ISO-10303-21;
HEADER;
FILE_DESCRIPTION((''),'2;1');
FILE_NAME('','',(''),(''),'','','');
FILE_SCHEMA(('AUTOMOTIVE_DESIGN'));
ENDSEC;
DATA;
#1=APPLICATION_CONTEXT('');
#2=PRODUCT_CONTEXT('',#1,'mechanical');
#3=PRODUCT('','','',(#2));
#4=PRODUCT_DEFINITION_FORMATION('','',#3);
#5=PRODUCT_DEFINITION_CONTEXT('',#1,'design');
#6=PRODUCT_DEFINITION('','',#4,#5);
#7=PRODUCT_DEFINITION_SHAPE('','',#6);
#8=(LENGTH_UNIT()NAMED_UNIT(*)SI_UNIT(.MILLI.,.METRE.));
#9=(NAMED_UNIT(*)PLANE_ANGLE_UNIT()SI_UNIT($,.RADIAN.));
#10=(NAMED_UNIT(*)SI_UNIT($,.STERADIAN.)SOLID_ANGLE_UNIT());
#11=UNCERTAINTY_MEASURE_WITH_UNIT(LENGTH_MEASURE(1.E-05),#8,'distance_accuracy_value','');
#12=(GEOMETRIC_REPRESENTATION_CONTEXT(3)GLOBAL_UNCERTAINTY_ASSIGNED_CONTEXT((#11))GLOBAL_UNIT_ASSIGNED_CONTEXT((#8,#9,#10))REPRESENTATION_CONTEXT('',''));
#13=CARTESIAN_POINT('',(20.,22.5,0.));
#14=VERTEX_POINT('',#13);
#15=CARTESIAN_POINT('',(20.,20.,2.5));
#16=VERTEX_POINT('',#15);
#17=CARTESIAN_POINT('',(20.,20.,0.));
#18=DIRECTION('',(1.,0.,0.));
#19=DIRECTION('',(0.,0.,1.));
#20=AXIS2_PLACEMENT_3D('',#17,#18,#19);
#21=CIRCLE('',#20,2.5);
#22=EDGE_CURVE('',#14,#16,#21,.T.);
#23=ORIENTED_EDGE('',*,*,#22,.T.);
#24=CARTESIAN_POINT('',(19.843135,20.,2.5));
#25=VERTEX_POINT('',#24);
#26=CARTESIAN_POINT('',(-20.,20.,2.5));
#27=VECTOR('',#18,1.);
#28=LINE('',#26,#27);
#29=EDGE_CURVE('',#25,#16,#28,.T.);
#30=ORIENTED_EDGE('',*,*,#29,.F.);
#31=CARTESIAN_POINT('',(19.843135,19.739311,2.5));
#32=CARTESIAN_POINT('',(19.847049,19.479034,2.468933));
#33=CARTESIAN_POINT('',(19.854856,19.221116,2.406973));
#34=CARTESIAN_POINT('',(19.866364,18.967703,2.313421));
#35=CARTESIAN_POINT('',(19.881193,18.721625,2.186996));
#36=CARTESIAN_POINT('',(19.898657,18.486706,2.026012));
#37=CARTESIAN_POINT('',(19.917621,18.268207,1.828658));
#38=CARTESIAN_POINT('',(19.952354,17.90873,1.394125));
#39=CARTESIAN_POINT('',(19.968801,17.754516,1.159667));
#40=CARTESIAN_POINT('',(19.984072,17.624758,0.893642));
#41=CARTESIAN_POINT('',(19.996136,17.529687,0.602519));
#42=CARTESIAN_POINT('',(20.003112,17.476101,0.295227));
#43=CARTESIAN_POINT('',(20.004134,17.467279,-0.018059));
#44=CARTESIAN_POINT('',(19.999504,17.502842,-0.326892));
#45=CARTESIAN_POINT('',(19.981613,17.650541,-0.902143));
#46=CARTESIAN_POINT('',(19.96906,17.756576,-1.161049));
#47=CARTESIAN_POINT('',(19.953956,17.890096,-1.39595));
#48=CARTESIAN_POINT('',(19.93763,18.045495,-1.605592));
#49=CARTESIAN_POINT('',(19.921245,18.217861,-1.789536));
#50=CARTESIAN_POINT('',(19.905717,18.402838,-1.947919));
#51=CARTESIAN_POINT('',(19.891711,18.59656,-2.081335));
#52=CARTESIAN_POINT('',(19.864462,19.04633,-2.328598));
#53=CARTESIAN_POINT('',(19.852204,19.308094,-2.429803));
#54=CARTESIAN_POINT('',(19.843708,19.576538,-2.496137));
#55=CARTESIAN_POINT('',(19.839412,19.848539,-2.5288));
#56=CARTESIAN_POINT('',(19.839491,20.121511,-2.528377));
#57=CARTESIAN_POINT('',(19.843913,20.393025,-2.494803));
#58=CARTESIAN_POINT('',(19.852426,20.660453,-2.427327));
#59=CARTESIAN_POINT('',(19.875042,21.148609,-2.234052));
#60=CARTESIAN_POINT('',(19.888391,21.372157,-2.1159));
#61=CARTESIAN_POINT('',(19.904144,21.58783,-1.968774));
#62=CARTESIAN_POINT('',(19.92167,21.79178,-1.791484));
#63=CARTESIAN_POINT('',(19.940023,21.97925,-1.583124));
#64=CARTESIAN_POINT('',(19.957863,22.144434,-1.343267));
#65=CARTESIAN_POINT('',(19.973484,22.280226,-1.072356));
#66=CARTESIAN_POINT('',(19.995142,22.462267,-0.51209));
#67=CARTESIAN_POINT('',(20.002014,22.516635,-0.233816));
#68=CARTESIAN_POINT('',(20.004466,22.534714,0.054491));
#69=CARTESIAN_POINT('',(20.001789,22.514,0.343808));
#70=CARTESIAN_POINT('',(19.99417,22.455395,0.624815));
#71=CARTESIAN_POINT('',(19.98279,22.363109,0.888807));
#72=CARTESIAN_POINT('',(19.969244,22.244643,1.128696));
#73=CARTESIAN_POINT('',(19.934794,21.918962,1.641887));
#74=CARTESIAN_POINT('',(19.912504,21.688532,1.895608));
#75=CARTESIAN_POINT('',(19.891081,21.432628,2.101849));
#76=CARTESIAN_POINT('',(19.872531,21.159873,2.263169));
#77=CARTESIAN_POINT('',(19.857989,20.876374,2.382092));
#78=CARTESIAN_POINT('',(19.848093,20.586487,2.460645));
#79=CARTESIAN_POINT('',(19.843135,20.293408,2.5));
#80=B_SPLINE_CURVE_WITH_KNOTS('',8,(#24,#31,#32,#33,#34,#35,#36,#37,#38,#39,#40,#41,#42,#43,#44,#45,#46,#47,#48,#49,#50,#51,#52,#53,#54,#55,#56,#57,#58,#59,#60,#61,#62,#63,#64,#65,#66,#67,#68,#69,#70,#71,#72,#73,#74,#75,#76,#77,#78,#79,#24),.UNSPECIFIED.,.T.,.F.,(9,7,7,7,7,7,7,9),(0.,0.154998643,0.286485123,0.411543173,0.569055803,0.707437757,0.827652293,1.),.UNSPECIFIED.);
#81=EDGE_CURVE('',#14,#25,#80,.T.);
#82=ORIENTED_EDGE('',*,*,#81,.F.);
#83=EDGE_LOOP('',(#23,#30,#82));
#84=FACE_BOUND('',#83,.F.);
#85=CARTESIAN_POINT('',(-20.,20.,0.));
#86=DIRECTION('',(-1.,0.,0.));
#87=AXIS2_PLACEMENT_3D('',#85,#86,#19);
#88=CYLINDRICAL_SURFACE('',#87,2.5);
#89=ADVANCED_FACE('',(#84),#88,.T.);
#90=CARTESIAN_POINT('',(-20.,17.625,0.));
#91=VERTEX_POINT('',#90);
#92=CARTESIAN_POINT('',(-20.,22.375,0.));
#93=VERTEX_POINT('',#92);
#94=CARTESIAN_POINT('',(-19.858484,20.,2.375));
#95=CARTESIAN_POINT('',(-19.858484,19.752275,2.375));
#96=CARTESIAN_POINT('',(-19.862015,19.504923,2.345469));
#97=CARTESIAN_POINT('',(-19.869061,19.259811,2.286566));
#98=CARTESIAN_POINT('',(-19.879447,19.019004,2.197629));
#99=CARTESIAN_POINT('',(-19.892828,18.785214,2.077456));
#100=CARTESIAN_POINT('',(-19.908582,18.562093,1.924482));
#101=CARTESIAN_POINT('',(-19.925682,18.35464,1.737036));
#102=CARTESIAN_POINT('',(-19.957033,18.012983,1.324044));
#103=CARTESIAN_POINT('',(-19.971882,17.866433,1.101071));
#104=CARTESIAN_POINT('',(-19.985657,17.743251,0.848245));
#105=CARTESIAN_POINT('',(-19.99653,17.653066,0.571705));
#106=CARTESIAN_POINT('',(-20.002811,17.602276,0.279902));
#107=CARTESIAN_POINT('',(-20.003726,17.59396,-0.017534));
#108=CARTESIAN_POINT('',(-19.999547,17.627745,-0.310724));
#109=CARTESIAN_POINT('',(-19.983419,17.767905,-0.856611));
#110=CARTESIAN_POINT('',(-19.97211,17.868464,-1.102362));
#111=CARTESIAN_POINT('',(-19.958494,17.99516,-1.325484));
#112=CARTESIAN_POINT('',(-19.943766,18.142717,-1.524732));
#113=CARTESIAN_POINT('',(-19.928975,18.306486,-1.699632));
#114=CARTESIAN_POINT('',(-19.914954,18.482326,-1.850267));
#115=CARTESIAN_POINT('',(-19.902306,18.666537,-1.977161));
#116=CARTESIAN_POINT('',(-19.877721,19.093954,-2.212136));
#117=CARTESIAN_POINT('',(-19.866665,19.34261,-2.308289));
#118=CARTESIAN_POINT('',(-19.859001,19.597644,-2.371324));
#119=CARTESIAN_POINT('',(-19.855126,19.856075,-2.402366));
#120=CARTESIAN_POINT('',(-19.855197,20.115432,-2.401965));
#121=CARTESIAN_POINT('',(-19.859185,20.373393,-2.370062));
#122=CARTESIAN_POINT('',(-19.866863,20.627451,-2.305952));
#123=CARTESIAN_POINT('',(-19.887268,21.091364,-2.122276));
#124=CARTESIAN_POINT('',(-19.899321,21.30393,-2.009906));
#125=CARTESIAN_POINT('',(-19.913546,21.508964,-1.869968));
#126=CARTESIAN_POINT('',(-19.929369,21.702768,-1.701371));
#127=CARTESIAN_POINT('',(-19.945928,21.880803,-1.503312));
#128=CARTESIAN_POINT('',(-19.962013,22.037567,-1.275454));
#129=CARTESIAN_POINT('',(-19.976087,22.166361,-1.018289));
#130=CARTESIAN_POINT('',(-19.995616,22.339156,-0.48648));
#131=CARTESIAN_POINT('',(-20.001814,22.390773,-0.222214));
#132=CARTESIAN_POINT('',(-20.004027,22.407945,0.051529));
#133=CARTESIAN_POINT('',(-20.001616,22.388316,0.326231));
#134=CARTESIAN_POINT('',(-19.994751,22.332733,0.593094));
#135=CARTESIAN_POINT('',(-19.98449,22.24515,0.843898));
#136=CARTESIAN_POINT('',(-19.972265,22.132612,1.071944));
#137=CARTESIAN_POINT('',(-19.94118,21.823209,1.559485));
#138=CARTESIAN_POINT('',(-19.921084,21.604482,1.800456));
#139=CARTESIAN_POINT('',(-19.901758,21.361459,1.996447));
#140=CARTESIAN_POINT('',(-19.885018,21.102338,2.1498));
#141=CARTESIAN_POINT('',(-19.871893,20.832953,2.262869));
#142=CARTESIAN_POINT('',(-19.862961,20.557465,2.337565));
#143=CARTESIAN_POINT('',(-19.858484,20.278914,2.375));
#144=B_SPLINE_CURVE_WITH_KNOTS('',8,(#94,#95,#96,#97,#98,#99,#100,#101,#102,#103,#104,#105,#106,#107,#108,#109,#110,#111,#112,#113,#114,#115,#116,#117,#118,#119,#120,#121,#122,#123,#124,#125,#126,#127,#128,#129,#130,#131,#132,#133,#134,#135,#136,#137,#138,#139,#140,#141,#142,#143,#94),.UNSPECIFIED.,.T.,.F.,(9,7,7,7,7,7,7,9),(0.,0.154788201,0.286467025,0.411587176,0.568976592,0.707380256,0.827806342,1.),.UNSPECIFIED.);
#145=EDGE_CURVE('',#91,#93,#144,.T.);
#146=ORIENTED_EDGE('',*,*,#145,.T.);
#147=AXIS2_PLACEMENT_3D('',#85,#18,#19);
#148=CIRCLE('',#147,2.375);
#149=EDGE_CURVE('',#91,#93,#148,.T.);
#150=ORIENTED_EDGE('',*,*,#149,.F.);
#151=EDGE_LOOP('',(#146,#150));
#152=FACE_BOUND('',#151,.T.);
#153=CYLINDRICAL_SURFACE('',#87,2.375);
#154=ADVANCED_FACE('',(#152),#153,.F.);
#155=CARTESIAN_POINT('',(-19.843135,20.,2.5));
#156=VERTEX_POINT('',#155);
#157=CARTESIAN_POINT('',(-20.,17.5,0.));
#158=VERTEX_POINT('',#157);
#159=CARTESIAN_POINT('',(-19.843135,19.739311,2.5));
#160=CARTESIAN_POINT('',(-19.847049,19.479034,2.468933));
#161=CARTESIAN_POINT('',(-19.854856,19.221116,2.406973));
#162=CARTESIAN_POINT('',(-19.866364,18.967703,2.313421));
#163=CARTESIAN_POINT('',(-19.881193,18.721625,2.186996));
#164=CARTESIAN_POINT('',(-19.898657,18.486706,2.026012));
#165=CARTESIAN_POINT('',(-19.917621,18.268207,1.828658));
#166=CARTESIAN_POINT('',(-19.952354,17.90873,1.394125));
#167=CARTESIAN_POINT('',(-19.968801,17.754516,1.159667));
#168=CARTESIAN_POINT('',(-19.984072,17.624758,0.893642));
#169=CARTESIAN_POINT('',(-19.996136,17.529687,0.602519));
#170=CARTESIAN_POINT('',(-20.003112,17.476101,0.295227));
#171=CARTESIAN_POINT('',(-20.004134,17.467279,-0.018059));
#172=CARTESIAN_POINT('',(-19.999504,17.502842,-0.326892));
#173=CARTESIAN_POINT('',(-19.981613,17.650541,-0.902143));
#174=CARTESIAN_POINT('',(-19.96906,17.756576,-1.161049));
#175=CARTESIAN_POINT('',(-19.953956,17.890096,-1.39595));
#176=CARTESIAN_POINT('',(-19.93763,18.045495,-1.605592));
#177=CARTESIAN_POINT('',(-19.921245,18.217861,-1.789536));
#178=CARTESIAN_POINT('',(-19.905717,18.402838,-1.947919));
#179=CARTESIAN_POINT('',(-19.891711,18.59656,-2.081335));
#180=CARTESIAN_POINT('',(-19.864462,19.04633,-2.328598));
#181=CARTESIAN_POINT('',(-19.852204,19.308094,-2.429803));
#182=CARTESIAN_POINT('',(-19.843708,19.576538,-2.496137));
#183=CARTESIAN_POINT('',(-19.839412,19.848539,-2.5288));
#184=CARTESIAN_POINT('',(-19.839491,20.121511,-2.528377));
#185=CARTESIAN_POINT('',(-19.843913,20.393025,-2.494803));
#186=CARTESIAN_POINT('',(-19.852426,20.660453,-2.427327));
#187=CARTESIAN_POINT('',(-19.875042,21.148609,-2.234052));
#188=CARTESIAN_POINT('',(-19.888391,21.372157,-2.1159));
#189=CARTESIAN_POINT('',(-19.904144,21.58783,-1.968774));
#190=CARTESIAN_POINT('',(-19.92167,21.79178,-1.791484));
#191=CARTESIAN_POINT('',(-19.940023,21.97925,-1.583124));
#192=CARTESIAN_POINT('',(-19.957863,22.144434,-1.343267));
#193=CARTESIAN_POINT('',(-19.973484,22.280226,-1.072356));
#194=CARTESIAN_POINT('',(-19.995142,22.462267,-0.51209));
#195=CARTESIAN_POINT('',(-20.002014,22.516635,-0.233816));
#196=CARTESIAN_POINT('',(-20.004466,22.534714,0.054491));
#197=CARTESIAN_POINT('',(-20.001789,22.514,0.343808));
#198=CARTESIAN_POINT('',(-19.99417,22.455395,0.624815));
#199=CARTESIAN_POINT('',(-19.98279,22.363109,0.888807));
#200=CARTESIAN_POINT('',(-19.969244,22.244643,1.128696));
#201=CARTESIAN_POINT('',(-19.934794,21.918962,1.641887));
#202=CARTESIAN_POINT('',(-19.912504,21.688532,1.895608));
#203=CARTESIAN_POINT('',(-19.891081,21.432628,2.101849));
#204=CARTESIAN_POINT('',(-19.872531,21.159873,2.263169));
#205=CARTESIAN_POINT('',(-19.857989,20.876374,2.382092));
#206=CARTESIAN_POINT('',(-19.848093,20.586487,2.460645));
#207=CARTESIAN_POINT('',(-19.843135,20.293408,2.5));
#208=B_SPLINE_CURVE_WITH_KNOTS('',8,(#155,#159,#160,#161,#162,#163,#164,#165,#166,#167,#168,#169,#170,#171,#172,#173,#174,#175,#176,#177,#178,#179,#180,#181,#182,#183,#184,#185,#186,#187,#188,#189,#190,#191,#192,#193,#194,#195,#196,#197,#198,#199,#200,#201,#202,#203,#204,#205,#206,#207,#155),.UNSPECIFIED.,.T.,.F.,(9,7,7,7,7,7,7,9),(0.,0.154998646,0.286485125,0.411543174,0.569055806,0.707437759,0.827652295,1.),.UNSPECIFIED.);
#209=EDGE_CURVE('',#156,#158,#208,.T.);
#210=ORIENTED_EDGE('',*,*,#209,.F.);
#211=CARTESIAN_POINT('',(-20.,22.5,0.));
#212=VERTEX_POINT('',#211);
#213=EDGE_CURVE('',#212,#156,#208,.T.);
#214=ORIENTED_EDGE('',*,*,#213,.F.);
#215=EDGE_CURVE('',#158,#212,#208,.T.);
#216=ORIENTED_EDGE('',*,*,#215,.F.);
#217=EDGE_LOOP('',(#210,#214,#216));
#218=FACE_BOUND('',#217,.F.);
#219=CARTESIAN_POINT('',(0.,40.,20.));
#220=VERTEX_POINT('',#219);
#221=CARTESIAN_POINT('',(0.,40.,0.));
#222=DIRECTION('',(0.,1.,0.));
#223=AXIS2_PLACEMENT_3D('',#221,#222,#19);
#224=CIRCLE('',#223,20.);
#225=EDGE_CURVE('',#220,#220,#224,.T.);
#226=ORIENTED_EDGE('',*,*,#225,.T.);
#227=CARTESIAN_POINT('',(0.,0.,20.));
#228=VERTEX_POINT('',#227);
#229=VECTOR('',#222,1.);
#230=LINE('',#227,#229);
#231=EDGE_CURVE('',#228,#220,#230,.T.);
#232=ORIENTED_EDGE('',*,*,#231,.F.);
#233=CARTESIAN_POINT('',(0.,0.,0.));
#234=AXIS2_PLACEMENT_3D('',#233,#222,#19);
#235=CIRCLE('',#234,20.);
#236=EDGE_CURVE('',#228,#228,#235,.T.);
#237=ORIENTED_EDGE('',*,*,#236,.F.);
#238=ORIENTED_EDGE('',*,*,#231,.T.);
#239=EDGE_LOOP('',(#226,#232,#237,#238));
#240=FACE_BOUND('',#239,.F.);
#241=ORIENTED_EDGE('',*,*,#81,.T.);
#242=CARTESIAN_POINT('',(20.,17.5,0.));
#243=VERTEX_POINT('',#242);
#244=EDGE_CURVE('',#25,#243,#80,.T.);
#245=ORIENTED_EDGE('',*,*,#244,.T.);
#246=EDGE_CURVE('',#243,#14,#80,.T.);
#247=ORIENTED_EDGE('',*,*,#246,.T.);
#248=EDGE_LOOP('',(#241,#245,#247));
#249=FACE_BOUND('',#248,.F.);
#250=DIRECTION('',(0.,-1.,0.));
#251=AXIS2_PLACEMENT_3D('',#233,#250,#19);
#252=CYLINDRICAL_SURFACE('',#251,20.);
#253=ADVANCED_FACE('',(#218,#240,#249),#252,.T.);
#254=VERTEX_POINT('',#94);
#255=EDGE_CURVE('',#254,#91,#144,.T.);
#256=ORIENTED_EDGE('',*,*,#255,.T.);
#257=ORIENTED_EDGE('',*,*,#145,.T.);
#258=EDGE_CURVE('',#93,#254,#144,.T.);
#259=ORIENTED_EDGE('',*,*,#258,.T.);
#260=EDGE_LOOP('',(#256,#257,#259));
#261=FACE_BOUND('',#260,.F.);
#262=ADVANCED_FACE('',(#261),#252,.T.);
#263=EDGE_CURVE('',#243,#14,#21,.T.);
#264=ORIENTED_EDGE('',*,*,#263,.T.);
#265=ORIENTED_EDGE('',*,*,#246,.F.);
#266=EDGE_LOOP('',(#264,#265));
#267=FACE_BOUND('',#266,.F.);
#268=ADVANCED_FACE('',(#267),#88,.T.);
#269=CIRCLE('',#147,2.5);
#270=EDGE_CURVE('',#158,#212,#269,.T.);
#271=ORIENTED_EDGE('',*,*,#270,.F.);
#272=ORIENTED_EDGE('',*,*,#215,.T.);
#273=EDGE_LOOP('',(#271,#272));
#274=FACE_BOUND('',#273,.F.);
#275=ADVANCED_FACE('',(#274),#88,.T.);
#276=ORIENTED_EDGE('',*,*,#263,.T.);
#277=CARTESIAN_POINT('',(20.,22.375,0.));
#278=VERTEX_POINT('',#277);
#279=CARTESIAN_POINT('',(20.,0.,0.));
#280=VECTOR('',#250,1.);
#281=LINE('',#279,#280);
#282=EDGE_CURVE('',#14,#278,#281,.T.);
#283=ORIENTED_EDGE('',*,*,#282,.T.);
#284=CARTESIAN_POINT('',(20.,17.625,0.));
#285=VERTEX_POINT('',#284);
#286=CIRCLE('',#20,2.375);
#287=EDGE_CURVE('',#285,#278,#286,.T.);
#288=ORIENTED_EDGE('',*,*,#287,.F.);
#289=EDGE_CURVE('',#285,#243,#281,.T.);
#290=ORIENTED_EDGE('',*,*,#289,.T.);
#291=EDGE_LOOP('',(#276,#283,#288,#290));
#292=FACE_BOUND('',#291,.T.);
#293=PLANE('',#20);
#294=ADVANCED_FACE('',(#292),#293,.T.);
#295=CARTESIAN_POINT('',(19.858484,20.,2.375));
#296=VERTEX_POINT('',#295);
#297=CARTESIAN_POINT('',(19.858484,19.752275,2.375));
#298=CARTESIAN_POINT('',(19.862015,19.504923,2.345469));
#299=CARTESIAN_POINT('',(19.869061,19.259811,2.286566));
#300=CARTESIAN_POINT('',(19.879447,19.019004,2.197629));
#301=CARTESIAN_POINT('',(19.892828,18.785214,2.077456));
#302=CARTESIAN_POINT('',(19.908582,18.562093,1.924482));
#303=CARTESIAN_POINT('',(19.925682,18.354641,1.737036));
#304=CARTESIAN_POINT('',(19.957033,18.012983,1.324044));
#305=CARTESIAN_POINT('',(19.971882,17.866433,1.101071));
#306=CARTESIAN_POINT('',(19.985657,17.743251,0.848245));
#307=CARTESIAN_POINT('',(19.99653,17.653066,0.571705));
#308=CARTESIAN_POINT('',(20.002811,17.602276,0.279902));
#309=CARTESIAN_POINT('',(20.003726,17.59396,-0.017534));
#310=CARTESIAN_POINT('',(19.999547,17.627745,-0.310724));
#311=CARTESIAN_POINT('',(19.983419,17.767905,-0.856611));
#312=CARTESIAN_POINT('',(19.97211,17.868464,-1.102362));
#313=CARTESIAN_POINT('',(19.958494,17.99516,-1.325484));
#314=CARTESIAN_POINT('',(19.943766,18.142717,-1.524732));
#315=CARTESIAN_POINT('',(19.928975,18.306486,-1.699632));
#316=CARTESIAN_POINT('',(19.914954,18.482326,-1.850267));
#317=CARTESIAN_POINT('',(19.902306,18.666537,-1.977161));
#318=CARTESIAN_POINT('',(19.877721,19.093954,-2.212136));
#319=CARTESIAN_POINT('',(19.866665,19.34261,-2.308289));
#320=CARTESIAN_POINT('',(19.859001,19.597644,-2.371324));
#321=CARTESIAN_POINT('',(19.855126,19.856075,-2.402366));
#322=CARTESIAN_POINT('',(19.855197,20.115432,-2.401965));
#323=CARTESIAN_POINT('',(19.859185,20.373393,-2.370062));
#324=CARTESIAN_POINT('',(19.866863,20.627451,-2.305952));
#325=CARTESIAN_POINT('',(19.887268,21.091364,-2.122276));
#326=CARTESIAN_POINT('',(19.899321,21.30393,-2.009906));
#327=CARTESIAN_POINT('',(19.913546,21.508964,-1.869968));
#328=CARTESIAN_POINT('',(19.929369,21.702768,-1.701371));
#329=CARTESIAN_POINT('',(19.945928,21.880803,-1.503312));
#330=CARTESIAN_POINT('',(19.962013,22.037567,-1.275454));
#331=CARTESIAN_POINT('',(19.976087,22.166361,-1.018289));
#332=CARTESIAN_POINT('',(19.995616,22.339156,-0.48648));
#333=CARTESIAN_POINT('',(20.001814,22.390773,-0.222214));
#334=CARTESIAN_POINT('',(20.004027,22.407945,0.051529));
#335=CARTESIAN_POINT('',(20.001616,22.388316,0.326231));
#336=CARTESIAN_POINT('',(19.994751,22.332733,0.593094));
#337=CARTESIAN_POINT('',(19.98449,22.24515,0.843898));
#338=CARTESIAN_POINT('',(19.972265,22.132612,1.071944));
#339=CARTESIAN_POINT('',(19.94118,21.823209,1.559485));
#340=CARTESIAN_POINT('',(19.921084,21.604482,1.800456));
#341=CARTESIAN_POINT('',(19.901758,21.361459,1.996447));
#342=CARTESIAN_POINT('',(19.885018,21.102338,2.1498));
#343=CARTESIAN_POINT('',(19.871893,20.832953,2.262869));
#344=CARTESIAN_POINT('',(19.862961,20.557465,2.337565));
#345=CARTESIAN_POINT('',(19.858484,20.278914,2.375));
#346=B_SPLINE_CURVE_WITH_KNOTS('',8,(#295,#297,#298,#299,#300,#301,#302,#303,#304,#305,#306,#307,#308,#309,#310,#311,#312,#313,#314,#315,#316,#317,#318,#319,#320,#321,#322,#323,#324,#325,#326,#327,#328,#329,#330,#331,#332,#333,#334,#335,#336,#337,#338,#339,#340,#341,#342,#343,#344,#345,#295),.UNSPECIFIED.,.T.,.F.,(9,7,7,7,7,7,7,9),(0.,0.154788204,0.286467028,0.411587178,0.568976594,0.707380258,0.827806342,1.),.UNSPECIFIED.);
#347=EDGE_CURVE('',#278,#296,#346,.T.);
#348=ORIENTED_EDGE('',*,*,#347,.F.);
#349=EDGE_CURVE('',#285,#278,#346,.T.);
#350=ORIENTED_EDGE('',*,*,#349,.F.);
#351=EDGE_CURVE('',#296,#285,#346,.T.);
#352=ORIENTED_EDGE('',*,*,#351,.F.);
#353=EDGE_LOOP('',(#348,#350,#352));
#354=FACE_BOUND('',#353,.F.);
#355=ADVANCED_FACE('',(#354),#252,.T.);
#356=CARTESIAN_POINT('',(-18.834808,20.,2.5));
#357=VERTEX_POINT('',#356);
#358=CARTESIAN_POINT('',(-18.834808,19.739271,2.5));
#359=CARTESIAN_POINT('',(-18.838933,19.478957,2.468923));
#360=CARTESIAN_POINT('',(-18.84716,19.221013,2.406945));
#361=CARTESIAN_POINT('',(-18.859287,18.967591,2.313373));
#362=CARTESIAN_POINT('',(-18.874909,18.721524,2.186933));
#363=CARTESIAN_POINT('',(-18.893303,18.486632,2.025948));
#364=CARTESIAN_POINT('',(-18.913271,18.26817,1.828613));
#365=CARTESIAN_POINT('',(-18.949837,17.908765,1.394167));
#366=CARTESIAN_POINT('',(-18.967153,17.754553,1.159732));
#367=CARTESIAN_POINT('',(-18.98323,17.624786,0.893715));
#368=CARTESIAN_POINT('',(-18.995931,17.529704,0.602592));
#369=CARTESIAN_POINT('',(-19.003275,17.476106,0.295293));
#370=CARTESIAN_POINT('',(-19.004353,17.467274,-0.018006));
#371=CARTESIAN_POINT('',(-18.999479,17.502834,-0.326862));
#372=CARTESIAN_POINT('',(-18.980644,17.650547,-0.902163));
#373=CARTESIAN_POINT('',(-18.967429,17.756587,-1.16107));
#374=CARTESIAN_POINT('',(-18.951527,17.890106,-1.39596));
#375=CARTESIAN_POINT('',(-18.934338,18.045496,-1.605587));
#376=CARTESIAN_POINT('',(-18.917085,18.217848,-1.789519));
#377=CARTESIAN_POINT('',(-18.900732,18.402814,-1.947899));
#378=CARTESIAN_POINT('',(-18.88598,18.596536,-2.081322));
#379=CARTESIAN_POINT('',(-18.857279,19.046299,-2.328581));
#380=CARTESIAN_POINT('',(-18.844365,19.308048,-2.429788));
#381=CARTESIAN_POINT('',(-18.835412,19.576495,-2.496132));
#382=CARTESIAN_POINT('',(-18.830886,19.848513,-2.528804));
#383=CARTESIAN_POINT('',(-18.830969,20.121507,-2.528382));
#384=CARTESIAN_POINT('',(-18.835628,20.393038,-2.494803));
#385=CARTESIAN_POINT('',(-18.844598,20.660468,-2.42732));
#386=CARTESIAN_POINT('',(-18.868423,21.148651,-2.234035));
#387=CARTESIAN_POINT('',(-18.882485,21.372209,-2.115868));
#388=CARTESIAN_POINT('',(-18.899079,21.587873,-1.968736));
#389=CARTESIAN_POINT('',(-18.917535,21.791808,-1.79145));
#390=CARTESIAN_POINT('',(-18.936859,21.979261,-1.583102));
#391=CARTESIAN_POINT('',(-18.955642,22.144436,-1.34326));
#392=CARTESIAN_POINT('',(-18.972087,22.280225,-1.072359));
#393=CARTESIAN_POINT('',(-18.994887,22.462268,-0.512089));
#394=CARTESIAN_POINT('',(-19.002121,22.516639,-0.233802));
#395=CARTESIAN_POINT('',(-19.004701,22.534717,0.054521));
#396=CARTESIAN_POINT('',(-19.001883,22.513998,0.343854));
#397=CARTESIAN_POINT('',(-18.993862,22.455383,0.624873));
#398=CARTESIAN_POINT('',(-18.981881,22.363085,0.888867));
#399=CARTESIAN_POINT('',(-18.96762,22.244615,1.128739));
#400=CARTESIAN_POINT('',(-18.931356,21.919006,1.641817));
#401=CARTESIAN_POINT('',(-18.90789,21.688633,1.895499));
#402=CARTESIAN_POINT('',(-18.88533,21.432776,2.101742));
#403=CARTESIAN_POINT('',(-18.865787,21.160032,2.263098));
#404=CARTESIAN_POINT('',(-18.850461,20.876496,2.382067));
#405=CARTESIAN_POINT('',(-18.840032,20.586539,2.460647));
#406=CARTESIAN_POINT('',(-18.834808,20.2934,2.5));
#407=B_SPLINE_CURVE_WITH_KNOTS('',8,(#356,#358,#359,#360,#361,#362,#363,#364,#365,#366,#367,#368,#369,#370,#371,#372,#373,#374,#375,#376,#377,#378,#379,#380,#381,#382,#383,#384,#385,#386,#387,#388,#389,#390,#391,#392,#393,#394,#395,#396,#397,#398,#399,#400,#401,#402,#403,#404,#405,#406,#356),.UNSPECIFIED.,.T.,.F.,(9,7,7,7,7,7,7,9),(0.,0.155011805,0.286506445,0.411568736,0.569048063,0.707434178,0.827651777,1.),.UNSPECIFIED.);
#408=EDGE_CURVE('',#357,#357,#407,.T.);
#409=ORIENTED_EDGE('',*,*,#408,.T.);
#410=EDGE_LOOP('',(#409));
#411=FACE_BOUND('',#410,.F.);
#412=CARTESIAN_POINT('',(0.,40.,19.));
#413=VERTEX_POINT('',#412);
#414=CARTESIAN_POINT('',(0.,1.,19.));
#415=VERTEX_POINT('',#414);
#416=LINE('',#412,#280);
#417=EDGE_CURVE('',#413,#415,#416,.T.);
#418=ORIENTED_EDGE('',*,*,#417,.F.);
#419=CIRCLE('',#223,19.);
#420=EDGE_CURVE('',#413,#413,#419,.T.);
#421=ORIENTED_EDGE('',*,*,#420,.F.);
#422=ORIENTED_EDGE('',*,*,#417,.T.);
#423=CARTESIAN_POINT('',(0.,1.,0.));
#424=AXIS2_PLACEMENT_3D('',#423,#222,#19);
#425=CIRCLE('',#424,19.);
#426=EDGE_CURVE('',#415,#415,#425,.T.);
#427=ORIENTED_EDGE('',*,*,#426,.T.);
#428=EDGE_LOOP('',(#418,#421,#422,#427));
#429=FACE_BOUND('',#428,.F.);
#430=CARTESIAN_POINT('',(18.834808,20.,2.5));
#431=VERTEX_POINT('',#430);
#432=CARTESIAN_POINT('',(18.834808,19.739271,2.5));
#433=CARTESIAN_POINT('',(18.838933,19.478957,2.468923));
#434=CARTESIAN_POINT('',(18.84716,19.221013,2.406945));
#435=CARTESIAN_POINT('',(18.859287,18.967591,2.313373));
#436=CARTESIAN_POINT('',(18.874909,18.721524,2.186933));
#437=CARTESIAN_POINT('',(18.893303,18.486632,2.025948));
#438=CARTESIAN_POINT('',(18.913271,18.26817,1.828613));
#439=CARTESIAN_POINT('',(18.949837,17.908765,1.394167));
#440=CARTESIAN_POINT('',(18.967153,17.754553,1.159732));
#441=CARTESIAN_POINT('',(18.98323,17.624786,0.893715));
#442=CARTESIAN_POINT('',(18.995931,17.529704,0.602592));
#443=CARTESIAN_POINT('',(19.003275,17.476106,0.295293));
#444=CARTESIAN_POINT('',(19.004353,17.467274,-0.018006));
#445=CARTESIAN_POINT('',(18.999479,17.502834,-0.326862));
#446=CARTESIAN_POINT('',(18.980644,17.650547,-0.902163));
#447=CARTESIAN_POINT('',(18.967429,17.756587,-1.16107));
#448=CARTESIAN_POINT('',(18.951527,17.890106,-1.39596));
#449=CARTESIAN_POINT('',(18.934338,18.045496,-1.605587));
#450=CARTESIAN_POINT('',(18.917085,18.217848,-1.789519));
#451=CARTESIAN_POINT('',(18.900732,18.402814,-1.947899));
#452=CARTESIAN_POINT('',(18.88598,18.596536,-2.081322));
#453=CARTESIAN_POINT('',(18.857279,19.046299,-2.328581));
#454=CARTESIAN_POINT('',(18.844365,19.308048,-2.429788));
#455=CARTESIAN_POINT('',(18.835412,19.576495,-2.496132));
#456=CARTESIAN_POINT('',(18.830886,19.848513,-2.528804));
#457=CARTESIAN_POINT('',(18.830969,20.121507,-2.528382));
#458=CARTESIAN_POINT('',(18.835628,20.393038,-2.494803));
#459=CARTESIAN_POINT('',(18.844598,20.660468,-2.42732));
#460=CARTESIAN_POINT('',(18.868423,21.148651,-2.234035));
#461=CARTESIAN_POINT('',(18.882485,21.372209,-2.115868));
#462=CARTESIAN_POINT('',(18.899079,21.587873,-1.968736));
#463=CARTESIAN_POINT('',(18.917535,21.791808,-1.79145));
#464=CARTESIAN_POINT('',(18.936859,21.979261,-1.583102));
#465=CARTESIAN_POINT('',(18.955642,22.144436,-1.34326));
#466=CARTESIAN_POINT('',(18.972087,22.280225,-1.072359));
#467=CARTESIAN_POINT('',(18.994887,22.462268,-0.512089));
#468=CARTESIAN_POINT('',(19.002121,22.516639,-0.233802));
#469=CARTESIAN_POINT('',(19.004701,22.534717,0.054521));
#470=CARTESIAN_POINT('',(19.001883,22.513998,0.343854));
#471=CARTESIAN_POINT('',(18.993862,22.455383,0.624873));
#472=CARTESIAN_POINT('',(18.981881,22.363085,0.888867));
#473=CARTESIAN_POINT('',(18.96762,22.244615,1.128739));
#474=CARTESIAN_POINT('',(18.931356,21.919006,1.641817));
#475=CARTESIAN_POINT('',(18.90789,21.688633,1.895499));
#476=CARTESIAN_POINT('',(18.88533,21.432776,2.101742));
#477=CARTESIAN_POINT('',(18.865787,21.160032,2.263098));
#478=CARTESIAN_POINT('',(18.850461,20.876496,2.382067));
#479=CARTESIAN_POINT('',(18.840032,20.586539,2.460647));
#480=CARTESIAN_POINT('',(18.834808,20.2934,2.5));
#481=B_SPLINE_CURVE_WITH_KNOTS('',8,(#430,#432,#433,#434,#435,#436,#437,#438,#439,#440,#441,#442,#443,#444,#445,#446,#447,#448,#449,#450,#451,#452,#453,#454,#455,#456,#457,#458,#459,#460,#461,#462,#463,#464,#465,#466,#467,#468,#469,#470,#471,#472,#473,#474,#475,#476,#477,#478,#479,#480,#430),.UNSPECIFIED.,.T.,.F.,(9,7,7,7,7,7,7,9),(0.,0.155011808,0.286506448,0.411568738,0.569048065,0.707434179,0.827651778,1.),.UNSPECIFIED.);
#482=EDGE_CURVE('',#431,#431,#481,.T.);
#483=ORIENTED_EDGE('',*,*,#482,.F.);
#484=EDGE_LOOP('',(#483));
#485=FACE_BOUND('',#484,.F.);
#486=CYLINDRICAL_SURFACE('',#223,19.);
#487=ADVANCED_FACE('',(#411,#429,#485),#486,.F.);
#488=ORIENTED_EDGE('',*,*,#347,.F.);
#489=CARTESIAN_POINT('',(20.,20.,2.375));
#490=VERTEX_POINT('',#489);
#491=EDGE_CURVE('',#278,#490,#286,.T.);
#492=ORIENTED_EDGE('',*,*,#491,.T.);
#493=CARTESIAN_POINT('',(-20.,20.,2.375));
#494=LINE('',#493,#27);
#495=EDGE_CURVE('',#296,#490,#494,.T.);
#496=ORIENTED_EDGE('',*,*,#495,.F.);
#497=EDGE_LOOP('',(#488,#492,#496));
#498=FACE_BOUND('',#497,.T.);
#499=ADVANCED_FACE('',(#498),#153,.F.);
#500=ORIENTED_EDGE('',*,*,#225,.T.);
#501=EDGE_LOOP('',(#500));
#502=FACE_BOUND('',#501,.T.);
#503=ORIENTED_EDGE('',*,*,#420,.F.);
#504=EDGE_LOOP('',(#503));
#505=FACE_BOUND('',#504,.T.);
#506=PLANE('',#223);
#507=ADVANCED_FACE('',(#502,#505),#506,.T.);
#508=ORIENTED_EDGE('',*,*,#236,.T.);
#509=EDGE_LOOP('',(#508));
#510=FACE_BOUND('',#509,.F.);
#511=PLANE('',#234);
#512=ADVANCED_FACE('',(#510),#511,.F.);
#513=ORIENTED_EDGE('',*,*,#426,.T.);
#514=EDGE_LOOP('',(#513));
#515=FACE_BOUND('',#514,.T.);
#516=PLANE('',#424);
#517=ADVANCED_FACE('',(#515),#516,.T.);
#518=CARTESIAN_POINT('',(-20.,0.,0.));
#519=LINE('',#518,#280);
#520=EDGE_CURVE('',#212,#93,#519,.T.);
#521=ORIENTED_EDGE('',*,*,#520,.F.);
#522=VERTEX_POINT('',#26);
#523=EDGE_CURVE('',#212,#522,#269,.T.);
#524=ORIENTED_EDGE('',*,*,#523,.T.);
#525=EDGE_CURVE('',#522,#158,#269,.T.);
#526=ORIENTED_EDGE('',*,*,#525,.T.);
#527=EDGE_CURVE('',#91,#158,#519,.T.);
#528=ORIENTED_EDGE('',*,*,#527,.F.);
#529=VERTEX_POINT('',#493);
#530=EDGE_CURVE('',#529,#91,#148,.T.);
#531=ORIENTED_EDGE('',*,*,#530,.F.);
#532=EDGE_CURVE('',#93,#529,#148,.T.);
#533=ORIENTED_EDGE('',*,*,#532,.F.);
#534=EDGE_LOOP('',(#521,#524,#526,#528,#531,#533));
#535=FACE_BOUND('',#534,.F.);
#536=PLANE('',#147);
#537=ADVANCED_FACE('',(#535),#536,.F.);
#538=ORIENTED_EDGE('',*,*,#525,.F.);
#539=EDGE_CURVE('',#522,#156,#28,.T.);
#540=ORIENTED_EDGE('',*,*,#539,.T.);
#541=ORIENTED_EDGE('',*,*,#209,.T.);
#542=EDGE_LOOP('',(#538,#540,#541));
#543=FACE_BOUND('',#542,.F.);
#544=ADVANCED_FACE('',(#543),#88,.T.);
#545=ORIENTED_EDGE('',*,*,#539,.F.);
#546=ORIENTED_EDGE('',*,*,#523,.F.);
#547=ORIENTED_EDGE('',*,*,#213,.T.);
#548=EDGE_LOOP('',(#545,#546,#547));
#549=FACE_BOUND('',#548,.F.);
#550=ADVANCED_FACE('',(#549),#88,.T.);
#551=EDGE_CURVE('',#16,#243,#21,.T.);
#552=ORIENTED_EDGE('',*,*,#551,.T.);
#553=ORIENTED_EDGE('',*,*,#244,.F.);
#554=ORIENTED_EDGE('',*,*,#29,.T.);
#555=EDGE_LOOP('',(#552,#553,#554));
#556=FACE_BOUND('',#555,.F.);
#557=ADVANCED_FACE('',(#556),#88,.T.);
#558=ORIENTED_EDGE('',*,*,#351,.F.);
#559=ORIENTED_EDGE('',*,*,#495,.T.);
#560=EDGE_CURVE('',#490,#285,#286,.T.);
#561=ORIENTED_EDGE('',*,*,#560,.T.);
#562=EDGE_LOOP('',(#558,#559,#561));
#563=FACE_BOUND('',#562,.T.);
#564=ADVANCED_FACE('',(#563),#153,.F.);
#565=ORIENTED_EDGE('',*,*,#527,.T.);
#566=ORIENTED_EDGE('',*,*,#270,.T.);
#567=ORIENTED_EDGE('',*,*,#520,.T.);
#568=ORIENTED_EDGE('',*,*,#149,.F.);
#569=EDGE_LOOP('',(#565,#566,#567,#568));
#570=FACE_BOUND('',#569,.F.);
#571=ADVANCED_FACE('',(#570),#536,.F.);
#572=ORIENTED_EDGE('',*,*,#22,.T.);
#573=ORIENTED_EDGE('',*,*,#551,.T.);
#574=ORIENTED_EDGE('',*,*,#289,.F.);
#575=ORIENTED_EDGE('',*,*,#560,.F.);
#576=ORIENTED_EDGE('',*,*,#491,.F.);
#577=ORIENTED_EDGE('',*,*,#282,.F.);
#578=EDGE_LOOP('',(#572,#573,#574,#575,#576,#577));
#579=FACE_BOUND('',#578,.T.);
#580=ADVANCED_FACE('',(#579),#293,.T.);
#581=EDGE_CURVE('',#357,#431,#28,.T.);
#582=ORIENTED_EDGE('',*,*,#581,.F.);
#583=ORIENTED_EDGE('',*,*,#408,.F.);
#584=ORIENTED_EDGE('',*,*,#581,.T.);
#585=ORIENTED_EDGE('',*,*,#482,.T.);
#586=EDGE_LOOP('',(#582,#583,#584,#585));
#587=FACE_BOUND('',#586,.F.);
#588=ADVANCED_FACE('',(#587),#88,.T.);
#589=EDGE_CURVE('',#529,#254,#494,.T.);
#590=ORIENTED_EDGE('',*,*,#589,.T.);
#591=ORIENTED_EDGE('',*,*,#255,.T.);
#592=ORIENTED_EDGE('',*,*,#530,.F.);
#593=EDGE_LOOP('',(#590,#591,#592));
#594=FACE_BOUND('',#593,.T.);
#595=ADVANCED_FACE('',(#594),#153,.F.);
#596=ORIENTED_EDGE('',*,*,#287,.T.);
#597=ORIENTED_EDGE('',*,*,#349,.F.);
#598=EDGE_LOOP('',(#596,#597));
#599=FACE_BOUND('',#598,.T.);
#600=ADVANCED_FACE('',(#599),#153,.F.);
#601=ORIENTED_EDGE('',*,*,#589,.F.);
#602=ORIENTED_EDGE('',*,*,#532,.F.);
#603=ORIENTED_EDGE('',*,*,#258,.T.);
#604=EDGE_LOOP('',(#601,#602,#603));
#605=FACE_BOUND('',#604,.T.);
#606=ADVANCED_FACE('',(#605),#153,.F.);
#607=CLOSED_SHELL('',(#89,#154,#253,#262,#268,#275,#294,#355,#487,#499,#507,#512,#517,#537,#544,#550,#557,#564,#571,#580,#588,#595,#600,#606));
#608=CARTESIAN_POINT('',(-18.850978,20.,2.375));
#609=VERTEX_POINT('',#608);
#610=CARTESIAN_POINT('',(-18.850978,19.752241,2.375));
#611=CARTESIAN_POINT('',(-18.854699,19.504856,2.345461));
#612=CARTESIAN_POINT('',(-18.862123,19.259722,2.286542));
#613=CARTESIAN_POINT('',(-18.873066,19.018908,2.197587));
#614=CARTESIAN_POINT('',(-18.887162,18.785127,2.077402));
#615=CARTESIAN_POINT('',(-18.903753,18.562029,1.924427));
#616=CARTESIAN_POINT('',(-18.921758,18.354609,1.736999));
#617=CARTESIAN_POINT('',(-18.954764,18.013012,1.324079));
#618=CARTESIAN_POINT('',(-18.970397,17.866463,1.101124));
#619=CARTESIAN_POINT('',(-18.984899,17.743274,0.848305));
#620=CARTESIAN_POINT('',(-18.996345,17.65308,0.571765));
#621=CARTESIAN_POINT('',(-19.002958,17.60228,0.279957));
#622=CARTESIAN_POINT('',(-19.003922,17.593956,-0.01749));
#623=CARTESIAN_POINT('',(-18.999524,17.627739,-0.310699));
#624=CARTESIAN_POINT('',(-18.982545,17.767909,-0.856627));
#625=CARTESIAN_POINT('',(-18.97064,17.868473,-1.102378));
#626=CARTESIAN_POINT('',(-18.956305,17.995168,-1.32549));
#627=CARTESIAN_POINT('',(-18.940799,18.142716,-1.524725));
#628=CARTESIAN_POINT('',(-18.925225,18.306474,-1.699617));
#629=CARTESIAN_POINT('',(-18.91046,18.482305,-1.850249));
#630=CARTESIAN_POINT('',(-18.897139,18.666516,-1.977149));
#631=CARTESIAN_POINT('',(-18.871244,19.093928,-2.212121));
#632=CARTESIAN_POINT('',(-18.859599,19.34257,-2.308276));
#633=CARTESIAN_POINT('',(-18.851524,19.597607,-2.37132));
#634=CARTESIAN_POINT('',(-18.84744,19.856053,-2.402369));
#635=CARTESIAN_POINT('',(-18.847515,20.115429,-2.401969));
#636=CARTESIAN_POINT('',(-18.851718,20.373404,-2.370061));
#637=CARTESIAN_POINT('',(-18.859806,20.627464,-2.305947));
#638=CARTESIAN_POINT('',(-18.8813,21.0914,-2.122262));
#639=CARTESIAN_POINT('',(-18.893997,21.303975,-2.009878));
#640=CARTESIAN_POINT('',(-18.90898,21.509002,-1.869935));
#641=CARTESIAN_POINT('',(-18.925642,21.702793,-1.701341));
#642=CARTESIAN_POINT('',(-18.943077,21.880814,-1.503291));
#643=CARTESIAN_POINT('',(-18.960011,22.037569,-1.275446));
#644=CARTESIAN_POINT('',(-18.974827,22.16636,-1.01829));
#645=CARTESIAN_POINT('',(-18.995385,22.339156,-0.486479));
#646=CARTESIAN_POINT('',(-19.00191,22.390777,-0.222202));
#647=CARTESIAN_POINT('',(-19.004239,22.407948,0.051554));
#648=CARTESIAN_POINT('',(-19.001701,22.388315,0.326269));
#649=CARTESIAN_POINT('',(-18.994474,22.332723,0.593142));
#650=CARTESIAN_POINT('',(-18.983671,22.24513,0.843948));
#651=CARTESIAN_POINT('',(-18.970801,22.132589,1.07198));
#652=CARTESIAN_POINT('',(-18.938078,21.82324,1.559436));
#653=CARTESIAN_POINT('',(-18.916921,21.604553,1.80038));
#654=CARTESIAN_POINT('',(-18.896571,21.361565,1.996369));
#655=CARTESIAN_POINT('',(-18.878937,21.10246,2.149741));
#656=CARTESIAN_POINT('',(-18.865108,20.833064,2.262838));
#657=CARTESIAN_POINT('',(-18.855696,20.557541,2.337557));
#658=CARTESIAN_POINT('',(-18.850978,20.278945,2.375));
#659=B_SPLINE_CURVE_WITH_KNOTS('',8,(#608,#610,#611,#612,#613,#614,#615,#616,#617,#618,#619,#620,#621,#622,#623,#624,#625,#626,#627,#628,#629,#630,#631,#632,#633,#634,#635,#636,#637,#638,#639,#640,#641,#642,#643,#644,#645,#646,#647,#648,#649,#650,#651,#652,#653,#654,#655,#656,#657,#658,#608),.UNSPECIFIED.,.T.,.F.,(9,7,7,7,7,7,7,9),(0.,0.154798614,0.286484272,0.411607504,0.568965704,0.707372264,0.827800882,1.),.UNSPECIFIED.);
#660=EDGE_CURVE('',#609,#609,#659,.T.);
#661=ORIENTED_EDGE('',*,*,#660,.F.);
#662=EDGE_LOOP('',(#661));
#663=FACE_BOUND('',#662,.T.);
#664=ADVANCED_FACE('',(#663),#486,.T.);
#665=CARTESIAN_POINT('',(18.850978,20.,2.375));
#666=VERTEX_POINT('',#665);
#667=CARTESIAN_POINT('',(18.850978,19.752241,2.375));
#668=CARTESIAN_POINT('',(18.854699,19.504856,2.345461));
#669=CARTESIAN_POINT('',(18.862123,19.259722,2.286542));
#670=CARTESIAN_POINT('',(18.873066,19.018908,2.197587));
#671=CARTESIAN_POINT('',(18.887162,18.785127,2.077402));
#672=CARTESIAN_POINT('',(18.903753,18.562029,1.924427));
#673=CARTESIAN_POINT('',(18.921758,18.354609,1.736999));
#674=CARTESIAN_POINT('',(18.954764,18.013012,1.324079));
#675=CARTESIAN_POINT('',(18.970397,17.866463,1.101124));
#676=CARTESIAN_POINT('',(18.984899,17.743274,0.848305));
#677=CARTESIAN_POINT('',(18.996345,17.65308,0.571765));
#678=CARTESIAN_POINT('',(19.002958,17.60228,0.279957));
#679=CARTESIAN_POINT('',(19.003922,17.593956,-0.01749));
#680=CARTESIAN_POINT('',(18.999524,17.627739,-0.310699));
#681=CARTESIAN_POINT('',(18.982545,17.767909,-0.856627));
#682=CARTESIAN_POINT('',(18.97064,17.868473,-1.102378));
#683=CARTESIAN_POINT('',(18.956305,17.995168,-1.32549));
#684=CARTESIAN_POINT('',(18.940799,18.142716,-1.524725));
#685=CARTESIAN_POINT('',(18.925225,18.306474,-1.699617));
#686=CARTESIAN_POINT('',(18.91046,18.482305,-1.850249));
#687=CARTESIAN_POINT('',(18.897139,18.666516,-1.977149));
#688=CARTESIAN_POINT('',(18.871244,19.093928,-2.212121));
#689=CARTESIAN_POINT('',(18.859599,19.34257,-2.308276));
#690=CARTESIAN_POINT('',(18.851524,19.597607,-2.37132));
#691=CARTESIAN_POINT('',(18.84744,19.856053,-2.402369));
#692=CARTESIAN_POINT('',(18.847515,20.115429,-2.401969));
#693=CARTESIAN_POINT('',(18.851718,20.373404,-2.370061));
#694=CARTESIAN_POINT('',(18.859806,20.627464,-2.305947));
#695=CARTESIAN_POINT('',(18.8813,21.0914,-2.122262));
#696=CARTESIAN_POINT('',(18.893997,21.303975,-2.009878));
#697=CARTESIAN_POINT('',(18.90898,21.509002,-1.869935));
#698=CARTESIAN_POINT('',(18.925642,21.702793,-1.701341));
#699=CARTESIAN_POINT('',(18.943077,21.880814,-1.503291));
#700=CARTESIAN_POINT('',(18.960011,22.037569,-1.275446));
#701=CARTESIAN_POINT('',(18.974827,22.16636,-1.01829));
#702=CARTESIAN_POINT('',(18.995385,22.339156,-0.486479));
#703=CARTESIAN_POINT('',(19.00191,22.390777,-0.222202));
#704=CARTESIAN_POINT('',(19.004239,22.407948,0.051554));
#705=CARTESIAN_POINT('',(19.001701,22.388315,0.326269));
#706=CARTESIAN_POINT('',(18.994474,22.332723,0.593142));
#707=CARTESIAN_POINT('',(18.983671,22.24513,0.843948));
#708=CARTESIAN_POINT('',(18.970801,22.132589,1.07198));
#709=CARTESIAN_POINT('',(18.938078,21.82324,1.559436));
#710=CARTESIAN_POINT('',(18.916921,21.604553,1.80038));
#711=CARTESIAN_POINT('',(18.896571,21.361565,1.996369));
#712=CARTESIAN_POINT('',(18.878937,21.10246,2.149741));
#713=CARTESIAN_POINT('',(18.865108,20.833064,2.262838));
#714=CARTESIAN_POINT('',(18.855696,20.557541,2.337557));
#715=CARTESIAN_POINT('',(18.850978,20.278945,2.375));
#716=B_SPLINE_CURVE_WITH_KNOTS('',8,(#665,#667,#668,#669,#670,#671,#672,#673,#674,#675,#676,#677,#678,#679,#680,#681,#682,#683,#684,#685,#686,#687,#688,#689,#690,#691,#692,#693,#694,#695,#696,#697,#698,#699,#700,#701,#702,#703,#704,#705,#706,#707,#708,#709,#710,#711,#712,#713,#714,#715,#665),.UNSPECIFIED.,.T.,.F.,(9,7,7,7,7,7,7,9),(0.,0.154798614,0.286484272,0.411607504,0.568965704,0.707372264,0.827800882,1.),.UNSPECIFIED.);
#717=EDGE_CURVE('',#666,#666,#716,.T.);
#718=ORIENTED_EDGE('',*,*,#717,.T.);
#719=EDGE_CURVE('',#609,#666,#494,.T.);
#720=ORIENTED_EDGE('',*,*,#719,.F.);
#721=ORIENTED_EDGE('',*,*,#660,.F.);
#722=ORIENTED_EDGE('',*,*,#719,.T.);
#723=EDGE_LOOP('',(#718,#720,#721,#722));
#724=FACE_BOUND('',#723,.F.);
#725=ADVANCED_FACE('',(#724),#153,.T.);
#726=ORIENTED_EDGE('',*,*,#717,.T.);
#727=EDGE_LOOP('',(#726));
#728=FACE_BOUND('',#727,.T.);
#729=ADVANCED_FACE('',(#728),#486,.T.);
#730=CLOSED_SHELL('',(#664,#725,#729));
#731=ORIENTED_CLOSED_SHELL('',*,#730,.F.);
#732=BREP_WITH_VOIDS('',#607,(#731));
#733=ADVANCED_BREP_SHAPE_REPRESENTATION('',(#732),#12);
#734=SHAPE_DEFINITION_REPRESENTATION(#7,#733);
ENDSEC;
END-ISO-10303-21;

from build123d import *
from build123d.topology import SkipClean

# Parameters (mm, degrees)
SKETCH1_R           = 20
BOSS_EXTRUDE1_DEPTH = 40
SKETCH2_R           = 19
CUT_EXTRUDE1_DEPTH  = 39
BOSS_EXTRUDE2_START = -20
SKETCH5_R           = 2.5
SKETCH5_R_2         = 2.375
BOSS_EXTRUDE2_DEPTH = 40


with BuildPart() as part:
    # Sketch1 → Boss-Extrude1 (new body)
    with BuildSketch(Plane(origin=(0, 0, 0), x_dir=(1, 0, 0), z_dir=(0, 1, 0))):
        with Locations(Location((0, 0, 0), (0, 0, 270))):
            Circle(SKETCH1_R)
    extrude(amount=BOSS_EXTRUDE1_DEPTH)

    # Sketch2 → Cut-Extrude1 (cut)
    with BuildSketch(Plane(origin=(0, 40, 0), x_dir=(1, 0, 0), z_dir=(0, 1, 0))):
        with Locations(Location((0, 0, 0), (0, 0, 270))):
            Circle(SKETCH2_R)
    extrude(amount=-CUT_EXTRUDE1_DEPTH, mode=Mode.SUBTRACT)

    # Sketch5 → Boss-Extrude2 (add)
    with SkipClean():  # the faces are left unmerged after this step: merging them gives an invalid solid
        with BuildSketch(Plane(origin=(0, 0, 0), x_dir=(0, 0, -1), z_dir=(1, 0, 0)).offset(BOSS_EXTRUDE2_START)):
            with Locations(Location((0, 20, 0), (0, 0, 180))):
                Circle(SKETCH5_R)
            with Locations(Location((0, 20, 0), (0, 0, 180))):
                Circle(SKETCH5_R_2, mode=Mode.SUBTRACT)
        extrude(amount=BOSS_EXTRUDE2_DEPTH)


solid = part.part
